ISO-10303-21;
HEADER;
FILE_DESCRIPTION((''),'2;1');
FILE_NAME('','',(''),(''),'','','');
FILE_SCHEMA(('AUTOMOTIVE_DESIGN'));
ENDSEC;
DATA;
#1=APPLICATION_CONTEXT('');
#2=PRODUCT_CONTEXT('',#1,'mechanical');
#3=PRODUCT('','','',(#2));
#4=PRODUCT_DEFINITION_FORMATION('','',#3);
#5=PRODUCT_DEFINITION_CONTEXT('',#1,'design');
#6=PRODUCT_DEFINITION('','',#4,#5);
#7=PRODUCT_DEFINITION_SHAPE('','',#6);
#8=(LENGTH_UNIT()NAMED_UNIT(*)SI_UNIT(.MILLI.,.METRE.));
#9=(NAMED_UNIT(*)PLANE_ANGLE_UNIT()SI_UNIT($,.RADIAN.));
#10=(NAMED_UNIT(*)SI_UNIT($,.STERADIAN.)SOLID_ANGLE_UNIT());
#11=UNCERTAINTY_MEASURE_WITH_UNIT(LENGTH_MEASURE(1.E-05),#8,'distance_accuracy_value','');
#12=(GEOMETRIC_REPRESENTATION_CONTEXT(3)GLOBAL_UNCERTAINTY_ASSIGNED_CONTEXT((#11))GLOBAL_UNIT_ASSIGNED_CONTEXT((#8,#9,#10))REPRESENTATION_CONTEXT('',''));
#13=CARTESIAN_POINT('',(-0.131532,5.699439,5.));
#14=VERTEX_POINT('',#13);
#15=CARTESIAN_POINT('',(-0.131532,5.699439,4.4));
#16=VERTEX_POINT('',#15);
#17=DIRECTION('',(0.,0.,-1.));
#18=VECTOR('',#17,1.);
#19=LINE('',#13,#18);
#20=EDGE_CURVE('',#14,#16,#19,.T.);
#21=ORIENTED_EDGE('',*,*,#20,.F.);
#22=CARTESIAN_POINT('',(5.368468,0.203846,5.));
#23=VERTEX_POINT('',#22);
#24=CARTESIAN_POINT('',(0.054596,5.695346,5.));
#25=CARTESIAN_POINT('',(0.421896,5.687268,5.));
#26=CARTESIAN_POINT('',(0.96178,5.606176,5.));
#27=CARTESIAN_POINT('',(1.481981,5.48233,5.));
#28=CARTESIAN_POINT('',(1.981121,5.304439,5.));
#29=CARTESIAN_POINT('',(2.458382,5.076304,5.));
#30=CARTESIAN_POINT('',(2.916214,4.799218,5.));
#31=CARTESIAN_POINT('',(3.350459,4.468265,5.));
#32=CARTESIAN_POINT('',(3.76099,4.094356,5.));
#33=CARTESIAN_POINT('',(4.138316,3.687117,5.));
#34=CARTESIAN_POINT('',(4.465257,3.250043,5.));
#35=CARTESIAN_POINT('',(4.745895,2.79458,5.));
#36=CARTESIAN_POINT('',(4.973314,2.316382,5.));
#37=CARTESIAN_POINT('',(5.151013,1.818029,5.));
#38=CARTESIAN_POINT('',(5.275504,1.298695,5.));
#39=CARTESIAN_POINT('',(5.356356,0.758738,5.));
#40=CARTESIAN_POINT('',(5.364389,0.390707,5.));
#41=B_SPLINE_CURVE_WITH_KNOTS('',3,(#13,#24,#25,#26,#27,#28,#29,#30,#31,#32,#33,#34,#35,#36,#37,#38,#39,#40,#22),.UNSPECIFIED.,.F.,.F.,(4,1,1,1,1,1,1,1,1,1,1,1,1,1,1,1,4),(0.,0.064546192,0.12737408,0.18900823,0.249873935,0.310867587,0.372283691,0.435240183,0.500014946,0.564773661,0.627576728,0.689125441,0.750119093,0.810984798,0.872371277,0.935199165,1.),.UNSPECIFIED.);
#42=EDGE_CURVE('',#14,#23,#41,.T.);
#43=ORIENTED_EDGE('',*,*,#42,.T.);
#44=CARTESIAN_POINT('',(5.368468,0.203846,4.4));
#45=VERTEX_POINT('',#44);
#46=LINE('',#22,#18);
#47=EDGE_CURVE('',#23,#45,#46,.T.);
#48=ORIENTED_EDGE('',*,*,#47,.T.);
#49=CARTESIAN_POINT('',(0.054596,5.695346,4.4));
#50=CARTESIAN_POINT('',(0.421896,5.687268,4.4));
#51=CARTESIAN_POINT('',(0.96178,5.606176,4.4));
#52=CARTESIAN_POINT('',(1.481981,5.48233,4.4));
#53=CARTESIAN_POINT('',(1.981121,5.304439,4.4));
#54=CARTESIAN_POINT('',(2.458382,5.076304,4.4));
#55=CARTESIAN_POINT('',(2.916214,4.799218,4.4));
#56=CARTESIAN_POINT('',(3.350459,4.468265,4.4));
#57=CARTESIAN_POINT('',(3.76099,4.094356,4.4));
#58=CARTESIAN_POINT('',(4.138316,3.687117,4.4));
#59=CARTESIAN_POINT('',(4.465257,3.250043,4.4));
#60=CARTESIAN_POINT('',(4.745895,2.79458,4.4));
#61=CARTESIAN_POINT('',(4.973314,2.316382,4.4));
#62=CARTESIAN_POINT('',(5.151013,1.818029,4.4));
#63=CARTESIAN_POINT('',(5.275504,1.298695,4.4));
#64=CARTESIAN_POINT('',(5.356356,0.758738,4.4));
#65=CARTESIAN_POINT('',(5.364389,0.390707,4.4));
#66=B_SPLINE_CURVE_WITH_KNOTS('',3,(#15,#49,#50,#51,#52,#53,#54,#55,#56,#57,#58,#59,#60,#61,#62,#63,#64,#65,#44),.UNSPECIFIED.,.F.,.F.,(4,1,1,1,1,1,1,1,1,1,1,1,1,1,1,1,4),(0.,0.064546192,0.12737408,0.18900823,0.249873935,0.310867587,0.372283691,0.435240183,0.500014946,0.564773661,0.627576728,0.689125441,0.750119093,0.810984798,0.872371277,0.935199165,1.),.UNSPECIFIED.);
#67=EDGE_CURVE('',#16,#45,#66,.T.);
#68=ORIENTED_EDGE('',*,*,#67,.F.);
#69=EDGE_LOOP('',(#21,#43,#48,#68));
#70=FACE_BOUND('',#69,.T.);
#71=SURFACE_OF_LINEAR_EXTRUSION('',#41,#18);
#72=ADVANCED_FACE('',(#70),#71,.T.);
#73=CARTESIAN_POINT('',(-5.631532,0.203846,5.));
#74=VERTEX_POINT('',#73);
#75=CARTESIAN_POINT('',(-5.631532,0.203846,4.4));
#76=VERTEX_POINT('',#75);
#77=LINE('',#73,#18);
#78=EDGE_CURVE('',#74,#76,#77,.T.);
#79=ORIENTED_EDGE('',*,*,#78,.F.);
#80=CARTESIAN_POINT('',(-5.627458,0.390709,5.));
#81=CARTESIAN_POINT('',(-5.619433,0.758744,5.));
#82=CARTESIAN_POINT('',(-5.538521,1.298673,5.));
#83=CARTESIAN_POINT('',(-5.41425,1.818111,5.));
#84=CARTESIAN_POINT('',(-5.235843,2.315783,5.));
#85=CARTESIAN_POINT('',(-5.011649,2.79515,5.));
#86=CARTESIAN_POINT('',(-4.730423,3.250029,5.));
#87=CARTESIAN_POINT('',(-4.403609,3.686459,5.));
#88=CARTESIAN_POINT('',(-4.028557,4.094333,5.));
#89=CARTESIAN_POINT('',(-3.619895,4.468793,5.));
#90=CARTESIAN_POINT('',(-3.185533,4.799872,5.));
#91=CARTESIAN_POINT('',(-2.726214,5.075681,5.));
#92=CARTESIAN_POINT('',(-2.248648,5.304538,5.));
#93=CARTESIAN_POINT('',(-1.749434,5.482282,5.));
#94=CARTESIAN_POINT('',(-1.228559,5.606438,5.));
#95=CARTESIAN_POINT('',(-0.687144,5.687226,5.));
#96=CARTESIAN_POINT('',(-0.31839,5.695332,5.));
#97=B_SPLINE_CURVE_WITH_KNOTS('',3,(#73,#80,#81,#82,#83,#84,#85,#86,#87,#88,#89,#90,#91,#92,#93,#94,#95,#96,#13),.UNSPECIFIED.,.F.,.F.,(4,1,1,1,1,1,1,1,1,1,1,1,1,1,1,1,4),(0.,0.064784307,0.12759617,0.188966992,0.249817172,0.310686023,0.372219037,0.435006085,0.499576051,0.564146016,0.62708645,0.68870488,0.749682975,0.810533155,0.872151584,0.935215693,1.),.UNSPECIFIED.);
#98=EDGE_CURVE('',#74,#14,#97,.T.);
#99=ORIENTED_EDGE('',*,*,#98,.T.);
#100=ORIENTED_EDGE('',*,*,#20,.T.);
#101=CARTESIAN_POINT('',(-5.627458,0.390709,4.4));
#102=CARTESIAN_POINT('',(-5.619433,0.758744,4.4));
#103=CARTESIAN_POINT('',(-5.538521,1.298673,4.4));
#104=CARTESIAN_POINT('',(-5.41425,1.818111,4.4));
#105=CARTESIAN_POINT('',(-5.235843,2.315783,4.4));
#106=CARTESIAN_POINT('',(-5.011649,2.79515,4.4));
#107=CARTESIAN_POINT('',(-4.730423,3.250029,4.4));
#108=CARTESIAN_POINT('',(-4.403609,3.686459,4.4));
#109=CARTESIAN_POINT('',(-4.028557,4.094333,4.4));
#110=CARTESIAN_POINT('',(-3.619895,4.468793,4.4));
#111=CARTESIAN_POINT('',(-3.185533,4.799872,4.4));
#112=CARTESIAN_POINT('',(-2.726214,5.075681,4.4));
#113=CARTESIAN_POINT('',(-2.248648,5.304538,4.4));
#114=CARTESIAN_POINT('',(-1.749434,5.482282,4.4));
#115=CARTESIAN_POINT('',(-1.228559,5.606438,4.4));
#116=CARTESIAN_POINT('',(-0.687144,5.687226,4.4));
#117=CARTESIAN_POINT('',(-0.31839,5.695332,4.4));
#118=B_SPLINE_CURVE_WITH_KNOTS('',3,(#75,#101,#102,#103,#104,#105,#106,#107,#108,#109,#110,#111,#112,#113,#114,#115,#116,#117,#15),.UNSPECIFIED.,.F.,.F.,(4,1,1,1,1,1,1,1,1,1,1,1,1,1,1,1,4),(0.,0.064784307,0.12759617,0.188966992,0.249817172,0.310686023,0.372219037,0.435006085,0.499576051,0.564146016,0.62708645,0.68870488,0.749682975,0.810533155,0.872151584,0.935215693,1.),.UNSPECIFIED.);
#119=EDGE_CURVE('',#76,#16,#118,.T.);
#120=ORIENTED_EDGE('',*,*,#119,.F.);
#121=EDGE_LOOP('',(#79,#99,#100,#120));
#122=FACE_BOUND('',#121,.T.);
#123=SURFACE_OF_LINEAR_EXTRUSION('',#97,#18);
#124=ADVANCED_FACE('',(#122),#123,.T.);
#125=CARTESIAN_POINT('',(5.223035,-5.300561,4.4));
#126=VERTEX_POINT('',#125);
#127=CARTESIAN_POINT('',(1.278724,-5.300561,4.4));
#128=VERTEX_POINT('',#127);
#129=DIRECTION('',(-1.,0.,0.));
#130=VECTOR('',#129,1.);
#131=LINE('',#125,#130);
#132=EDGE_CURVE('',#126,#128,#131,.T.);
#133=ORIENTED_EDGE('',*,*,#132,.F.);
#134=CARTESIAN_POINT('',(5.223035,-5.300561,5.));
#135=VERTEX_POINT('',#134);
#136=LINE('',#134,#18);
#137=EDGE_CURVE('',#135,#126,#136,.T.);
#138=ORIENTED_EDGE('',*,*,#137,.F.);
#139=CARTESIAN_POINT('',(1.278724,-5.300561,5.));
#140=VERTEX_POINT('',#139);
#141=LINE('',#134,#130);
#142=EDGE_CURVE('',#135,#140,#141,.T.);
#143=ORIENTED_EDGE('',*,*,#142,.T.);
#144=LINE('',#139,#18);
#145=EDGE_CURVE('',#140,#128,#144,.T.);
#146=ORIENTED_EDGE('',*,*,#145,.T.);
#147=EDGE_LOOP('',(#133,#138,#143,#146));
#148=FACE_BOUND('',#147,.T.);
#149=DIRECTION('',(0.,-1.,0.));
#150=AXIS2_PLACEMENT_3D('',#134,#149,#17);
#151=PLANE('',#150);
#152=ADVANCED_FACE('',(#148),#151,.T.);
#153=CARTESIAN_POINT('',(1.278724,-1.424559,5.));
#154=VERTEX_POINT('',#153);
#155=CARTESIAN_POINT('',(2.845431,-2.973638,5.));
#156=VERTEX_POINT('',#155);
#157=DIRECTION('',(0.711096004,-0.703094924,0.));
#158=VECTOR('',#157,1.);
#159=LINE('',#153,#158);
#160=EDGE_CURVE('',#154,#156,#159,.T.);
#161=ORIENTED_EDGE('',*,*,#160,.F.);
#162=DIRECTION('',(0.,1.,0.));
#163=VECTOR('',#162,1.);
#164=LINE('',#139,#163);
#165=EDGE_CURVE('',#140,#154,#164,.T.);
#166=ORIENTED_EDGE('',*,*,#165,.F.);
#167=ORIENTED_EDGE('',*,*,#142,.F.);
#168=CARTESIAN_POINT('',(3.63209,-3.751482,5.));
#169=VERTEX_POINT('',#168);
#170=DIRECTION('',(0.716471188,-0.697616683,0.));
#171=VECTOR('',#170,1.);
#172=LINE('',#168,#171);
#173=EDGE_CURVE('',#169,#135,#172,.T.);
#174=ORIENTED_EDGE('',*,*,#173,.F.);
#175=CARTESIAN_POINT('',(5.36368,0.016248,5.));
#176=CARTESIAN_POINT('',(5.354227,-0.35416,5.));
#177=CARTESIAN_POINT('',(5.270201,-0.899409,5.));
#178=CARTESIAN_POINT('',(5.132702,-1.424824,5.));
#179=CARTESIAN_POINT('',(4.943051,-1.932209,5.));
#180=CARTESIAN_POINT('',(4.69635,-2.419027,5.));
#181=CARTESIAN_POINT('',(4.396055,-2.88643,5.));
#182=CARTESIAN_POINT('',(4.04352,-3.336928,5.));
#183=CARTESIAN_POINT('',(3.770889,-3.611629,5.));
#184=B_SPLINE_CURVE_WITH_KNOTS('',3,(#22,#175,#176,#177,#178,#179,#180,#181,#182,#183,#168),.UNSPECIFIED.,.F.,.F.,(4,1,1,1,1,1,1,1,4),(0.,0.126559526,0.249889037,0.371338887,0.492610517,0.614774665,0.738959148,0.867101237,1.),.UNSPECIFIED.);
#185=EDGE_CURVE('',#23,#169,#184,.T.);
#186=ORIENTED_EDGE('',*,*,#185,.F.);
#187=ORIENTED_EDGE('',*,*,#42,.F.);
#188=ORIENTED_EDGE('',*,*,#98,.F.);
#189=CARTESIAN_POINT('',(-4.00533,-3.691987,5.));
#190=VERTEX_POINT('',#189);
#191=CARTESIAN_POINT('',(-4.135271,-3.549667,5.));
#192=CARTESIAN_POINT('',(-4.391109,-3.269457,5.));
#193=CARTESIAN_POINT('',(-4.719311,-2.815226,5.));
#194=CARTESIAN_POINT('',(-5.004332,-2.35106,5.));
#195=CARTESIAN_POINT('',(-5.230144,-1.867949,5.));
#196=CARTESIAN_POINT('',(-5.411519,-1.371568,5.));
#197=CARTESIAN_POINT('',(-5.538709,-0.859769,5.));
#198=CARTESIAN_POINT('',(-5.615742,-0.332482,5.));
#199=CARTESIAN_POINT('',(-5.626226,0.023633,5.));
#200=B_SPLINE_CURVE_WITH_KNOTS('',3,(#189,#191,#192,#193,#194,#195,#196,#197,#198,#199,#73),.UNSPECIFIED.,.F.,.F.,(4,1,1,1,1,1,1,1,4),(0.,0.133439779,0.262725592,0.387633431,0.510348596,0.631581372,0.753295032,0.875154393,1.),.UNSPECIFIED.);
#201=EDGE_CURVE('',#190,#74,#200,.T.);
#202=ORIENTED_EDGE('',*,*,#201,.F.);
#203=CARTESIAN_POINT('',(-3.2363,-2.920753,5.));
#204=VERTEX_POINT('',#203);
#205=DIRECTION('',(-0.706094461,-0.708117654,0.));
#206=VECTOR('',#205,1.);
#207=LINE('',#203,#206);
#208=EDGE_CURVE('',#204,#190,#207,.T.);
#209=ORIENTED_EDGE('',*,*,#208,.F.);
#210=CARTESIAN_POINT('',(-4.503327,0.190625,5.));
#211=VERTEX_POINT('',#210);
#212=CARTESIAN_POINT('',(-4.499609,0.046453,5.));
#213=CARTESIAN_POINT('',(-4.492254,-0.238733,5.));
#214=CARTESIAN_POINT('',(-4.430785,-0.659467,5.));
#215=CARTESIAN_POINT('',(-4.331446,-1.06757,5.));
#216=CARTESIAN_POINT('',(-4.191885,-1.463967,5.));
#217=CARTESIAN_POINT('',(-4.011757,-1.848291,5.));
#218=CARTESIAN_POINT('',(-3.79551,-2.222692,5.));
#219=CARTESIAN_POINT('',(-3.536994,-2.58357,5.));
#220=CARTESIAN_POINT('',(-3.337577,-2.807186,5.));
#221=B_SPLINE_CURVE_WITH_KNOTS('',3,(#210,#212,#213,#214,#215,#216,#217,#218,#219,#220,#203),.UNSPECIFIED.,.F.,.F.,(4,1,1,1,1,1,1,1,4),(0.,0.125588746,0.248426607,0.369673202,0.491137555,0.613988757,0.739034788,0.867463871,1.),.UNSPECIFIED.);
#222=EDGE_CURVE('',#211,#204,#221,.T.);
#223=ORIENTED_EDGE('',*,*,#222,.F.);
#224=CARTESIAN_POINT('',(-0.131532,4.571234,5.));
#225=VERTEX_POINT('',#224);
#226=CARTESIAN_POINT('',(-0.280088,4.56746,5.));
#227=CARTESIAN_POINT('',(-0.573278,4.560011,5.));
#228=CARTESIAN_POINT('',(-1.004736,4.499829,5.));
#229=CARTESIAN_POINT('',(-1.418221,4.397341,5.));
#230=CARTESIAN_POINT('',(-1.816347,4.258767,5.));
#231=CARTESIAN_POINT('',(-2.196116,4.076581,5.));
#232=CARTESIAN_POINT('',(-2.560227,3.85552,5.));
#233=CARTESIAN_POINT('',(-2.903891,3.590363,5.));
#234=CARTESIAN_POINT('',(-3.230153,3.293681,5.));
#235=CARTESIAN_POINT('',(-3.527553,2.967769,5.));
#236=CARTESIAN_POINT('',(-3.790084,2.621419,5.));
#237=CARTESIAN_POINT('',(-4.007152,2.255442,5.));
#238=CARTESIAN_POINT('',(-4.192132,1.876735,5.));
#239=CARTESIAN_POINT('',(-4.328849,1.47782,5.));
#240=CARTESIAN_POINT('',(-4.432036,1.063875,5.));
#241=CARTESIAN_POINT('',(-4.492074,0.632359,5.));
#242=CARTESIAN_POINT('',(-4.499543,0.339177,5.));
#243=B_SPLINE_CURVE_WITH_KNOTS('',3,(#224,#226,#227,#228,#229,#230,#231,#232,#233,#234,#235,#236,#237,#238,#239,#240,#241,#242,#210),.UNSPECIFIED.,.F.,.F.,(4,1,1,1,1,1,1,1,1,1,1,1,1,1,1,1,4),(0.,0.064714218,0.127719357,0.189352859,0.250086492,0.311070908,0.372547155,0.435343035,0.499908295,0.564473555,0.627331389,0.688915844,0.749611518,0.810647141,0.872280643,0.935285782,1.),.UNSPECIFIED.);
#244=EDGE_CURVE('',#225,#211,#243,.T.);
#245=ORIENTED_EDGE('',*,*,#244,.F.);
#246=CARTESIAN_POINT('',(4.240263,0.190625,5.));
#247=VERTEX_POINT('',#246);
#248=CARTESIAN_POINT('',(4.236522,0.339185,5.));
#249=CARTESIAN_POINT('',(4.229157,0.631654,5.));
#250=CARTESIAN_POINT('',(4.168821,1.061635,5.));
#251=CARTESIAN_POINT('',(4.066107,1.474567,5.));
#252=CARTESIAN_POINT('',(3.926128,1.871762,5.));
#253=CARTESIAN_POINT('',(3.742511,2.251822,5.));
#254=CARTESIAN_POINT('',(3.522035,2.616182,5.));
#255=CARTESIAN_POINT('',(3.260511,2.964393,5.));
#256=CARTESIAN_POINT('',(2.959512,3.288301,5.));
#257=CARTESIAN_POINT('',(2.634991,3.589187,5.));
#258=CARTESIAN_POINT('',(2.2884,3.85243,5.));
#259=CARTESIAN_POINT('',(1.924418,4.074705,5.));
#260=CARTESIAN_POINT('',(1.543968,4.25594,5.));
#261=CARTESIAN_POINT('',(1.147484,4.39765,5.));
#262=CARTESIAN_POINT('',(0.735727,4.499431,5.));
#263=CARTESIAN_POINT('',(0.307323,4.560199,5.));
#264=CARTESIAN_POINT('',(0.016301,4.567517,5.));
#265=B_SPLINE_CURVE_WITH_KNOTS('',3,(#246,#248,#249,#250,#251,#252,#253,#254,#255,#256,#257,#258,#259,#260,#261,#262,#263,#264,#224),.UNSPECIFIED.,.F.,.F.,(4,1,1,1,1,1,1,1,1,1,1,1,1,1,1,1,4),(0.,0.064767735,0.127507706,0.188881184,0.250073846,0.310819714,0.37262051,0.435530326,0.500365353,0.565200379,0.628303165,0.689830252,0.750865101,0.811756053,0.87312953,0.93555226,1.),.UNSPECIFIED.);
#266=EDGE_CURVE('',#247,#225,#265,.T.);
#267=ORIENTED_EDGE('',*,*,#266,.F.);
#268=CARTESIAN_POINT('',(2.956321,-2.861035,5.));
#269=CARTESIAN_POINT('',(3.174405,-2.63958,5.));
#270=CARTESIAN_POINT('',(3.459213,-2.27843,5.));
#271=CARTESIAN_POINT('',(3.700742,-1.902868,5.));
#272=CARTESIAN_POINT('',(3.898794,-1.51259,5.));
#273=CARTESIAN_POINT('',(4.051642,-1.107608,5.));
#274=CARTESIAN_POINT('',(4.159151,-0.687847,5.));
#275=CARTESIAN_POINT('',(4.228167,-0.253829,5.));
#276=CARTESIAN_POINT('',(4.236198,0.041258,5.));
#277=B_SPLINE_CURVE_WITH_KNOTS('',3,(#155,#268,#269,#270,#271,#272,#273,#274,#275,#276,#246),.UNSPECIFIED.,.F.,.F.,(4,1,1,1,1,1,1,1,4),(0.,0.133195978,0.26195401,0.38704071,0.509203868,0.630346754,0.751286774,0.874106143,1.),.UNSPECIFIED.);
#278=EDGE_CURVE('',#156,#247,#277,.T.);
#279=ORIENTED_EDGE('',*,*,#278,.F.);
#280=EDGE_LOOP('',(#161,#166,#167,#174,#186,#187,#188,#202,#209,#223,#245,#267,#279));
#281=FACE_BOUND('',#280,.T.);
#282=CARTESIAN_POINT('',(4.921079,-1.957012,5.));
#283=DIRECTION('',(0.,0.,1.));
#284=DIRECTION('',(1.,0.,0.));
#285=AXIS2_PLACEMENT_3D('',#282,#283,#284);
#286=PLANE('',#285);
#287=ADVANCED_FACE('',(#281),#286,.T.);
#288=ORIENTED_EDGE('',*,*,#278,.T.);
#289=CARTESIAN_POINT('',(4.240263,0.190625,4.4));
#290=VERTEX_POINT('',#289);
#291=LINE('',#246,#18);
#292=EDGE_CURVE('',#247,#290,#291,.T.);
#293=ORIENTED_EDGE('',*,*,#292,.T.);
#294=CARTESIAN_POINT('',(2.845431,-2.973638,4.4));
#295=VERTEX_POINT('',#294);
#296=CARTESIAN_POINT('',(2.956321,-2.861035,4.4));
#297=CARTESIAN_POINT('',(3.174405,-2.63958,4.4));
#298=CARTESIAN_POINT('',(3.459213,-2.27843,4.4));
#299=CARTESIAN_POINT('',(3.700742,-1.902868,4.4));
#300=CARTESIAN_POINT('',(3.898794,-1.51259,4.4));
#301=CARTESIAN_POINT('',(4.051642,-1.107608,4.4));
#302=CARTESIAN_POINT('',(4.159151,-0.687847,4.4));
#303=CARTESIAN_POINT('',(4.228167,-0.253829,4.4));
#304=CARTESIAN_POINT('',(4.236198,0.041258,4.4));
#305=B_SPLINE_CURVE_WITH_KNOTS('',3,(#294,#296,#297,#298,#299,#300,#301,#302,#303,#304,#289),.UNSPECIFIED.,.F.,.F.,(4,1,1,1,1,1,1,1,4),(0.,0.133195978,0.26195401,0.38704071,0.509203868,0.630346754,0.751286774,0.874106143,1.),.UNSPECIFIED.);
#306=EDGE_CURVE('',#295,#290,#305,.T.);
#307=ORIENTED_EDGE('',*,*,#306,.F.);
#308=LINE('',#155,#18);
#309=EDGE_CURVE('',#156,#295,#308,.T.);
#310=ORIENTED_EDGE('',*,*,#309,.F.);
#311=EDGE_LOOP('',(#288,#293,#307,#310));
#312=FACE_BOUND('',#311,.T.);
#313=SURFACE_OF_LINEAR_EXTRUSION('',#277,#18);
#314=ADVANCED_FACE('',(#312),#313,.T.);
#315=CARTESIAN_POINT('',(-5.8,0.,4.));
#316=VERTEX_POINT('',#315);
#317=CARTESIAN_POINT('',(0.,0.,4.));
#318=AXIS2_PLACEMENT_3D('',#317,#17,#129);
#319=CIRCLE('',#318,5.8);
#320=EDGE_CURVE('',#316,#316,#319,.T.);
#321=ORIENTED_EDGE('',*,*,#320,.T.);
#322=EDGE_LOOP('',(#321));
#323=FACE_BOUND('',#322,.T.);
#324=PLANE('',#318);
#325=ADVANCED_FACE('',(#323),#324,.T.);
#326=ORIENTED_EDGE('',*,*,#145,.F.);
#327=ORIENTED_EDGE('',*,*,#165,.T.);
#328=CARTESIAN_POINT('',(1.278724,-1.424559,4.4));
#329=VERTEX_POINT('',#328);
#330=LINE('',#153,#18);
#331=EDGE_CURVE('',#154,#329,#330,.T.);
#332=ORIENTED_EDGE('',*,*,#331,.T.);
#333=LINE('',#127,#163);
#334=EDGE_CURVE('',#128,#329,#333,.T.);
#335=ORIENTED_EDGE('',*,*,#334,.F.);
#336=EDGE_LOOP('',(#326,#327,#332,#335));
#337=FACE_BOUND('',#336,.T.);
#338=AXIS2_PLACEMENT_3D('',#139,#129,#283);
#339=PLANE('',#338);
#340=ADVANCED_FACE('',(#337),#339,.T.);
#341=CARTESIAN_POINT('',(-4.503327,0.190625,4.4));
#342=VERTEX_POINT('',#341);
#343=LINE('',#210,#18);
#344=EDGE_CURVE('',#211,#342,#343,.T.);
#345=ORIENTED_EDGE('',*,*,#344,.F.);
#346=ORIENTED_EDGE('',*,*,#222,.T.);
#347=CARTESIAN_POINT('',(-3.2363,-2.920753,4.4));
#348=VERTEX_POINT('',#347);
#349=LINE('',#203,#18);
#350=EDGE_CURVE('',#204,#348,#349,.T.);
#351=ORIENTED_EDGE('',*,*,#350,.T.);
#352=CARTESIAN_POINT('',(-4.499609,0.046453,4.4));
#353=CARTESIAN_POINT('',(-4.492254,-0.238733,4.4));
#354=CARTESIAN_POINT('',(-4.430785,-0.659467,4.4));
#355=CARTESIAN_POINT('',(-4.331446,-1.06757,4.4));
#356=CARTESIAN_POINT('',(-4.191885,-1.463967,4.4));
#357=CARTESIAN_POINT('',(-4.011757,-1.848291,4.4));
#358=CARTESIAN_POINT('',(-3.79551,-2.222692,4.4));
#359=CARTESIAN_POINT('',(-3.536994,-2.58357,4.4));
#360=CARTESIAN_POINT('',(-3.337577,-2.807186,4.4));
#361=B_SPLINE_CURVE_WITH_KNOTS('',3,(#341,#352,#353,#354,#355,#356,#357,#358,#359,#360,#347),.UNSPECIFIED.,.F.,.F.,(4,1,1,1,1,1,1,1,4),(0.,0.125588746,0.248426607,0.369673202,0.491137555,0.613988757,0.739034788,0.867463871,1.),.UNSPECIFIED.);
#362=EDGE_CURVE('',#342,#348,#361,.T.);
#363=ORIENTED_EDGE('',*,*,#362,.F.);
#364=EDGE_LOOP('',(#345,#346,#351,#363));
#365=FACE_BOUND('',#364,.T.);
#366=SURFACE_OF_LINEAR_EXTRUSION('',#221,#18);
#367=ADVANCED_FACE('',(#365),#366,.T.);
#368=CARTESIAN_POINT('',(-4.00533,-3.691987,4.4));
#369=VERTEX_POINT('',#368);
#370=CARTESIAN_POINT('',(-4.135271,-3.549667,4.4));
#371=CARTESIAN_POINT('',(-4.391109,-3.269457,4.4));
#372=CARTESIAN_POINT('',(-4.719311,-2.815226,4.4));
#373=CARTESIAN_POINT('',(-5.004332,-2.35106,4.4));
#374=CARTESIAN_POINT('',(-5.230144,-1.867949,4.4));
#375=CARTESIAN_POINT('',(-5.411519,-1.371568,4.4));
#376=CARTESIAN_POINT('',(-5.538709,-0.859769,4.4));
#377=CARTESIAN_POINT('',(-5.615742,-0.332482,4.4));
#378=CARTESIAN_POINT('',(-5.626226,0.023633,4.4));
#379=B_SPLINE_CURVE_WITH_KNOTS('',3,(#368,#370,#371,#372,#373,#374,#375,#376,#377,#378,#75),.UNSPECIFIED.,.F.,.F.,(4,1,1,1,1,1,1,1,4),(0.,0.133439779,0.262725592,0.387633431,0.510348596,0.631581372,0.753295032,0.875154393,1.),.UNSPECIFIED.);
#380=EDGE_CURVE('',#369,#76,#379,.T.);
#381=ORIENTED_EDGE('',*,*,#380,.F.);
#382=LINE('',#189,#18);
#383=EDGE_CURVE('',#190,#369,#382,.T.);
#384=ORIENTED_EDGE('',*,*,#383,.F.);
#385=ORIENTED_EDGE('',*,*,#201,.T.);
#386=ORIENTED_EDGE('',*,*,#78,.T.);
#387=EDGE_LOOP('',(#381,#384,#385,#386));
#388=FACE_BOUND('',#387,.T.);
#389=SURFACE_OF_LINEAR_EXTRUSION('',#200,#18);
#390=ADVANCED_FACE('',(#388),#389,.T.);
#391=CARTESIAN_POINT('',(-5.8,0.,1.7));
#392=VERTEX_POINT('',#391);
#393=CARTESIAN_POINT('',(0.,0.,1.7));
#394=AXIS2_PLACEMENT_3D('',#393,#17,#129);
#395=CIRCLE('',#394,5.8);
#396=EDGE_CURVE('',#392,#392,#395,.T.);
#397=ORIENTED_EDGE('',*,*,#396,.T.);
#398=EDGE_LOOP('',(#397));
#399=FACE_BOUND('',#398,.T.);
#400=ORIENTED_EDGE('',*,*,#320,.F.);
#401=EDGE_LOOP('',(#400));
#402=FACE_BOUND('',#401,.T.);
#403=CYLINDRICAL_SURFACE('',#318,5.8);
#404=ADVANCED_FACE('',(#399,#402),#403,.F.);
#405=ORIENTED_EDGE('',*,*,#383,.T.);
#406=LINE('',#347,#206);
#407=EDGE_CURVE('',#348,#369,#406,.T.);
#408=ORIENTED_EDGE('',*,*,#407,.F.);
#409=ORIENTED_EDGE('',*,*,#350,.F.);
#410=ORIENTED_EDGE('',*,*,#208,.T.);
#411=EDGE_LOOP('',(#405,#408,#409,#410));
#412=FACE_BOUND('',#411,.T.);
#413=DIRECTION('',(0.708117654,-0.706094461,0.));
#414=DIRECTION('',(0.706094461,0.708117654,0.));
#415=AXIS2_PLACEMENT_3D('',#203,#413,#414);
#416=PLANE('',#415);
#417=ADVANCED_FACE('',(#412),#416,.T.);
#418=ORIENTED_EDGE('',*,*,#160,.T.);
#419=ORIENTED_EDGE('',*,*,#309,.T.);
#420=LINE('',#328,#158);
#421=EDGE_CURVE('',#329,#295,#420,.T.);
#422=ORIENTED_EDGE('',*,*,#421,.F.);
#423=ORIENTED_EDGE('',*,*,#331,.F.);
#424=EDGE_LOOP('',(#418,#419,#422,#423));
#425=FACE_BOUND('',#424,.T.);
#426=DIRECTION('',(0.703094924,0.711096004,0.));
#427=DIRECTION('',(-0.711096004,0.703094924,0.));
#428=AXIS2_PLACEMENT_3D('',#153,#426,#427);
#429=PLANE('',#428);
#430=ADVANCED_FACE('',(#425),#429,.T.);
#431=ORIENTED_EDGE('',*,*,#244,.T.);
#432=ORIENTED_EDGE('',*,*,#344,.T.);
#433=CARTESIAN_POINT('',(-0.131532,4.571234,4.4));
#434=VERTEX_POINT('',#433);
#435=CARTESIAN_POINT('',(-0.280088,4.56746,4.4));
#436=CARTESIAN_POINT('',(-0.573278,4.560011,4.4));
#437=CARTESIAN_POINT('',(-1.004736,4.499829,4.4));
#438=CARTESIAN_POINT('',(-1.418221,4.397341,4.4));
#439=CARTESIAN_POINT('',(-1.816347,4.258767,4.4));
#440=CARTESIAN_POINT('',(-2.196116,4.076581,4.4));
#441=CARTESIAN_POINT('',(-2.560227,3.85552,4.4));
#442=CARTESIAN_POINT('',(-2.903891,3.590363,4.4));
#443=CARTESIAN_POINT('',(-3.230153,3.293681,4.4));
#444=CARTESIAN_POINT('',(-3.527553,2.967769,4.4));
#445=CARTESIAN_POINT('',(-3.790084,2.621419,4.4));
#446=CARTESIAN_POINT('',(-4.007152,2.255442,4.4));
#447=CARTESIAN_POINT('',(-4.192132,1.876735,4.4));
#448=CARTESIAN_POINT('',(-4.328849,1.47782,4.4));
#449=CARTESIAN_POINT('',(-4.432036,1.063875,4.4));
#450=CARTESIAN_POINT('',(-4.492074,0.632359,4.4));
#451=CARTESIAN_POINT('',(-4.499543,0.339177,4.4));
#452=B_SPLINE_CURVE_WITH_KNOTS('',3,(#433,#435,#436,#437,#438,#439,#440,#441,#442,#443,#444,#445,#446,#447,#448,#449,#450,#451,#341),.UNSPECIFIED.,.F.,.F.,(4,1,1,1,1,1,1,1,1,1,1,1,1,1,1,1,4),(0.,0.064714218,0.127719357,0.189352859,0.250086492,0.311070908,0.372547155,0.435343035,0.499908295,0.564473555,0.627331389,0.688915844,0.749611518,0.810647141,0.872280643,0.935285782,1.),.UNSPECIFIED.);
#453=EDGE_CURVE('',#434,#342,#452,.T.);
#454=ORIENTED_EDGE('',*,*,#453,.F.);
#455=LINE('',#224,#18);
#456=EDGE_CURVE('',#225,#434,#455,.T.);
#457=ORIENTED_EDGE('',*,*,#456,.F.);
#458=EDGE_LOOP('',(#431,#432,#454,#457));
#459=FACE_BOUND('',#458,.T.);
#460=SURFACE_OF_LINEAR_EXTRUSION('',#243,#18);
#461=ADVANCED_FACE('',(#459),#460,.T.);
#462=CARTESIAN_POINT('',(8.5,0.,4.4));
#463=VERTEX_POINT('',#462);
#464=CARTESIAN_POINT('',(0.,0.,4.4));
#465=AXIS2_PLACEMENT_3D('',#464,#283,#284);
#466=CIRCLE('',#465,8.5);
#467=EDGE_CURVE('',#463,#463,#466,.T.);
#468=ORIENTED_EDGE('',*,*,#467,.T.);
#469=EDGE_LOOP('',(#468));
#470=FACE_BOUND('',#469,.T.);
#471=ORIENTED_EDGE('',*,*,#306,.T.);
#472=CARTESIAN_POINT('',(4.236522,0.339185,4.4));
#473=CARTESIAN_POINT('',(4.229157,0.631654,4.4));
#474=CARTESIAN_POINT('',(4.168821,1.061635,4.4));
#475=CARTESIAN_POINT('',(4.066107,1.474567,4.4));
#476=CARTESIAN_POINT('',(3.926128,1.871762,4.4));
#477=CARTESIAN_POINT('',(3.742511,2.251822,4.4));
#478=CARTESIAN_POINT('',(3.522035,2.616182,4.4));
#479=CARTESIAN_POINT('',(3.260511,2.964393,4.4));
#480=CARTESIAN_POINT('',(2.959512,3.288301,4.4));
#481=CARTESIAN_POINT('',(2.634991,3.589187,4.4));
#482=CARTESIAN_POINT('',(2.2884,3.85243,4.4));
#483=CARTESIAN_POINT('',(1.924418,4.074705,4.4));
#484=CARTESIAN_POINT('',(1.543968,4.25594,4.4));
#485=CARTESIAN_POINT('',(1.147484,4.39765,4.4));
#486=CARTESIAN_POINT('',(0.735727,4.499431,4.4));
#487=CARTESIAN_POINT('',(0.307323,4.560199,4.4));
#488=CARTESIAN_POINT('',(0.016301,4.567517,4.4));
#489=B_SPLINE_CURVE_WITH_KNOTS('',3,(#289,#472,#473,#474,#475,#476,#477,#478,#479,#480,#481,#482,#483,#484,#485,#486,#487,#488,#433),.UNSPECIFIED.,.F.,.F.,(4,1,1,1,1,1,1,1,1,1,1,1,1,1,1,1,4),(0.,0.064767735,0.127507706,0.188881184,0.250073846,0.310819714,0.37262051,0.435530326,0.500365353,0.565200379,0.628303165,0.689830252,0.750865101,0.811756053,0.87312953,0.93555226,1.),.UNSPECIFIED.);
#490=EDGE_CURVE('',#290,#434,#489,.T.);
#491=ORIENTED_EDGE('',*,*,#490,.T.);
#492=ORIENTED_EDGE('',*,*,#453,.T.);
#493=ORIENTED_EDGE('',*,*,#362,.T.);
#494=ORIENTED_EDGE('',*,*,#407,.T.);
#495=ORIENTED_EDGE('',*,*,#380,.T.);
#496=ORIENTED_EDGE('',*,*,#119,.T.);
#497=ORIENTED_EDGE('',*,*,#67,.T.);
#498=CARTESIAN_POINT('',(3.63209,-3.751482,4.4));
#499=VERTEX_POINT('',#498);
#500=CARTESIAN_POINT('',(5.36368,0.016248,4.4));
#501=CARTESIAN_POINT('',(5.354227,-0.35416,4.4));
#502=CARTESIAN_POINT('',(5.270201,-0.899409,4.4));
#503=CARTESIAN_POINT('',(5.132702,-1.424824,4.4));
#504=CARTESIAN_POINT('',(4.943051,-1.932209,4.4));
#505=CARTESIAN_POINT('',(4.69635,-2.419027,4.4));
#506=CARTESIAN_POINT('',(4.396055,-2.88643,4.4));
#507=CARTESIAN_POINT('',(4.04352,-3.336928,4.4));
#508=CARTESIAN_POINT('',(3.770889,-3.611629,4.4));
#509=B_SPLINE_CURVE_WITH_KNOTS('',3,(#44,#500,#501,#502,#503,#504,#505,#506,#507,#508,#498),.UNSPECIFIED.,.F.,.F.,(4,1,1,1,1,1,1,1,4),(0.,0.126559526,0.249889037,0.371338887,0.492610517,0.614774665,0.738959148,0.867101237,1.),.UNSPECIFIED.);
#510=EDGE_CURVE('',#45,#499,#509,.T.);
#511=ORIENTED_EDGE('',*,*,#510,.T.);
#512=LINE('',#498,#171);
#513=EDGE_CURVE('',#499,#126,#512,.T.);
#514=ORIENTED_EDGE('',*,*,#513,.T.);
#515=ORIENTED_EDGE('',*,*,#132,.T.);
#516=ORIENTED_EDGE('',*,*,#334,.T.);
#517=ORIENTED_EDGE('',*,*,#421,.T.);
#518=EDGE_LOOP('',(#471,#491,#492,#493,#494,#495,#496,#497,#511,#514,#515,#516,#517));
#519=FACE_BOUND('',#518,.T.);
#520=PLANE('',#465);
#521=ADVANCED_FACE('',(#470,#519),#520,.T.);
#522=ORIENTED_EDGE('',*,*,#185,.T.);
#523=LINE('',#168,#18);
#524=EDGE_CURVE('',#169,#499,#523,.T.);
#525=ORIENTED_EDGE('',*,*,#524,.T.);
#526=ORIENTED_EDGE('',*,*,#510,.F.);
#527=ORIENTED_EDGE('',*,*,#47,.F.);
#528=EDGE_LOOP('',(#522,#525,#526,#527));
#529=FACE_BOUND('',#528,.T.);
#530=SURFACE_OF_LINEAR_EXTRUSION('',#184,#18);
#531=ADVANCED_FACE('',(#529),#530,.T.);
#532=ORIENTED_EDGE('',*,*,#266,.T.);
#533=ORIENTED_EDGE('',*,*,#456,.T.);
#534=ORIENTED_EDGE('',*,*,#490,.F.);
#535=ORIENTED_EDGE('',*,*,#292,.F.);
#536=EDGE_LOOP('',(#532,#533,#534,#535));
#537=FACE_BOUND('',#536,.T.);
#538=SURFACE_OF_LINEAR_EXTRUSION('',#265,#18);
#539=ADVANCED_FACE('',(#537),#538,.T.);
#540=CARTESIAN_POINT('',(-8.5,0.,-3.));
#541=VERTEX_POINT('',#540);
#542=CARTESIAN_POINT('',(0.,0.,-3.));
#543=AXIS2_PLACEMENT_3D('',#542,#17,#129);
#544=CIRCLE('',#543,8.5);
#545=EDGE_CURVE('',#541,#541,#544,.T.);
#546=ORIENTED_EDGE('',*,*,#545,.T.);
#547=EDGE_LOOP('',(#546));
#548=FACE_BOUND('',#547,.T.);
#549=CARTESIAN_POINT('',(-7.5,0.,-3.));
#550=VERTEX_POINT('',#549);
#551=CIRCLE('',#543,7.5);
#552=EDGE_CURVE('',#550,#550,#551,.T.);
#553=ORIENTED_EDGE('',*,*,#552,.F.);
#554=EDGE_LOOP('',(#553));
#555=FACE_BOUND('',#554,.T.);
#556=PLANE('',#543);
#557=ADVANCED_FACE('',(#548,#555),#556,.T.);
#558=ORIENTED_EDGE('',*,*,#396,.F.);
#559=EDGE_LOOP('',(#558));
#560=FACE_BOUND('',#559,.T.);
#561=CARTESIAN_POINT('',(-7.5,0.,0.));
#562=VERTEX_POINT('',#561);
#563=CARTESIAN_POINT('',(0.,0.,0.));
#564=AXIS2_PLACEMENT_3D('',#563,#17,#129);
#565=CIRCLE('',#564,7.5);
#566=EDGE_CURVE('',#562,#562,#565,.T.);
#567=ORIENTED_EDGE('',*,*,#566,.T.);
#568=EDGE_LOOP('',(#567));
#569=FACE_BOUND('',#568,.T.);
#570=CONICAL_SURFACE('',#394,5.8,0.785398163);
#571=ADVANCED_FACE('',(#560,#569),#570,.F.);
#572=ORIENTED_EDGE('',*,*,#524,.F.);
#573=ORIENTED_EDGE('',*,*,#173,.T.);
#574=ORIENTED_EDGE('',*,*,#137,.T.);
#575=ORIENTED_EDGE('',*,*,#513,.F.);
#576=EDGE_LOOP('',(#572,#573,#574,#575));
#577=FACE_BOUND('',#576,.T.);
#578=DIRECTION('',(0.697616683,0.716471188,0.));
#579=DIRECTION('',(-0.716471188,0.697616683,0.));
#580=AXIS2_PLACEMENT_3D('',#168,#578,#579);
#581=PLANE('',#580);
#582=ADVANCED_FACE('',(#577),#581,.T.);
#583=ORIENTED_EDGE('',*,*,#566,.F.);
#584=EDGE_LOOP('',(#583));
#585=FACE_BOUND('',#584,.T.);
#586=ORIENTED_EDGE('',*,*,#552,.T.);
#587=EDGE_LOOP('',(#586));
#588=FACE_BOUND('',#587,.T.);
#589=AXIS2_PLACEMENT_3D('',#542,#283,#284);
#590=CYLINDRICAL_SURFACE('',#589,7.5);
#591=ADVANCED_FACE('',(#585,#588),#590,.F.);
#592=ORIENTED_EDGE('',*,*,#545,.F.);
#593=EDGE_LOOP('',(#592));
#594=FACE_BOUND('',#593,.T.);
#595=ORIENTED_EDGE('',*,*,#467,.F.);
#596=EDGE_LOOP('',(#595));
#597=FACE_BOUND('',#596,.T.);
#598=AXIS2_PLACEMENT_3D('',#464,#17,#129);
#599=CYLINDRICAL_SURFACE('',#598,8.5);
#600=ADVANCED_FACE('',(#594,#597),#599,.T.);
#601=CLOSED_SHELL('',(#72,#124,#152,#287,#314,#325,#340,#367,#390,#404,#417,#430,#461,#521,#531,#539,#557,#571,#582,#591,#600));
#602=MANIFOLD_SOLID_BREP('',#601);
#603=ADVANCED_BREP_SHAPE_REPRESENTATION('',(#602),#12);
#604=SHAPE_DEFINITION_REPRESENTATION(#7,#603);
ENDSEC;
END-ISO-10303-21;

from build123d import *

# Parameters (mm, degrees)
SKETCH1_R           = 8.5
BOSS_EXTRUDE1_DEPTH = 4.4
SKETCH3_R           = 5.8
CUT_EXTRUDE1_DEPTH  = 4
BOSS_EXTRUDE3_START = 3
SKETCH4_R           = 8.5
SKETCH4_R_2         = 7.5
BOSS_EXTRUDE3_DEPTH = 3
BOSS_EXTRUDE4_DEPTH = 0.6


with BuildPart() as part:
    # Sketch1 → Boss-Extrude1 (new body)
    with BuildSketch(Plane.XY):
        Circle(SKETCH1_R)
    extrude(amount=BOSS_EXTRUDE1_DEPTH)

    # Sketch3 → Cut-Extrude1 (cut)
    with BuildSketch(Plane(origin=(0, 0, 0), x_dir=(-1, 0, 0), z_dir=(0, 0, -1))):
        Circle(SKETCH3_R)
    extrude(amount=-CUT_EXTRUDE1_DEPTH, mode=Mode.SUBTRACT)

    # Sketch4 → Boss-Extrude3 (add)
    with BuildSketch(Plane(origin=(0, 0, 0), x_dir=(-1, 0, 0), z_dir=(0, 0, -1)).offset(BOSS_EXTRUDE3_START)):
        Circle(SKETCH4_R)
        Circle(SKETCH4_R_2, mode=Mode.SUBTRACT)
    extrude(amount=-BOSS_EXTRUDE3_DEPTH)

    # Sketch6 → Cut-Revolve1 (revolve, cut)
    with BuildSketch(Plane(origin=(0, 0, 0), x_dir=(1, 0, 0), z_dir=(0, 1, 0)), mode=Mode.PRIVATE) as cut_revolve1_sk:
        Polygon((7.5, 0), (5.8, -1.7), (5.8, 0), align=None)
    revolve(cut_revolve1_sk.sketch.rotate(Axis((0, 0, -5.5), (0, 0, 1)), 180), axis=Axis((0, 0, -5.5), (0, 0, 1)), mode=Mode.SUBTRACT)

    # Sketch2 → Boss-Extrude4 (add)
    with BuildSketch(Plane.XY.offset(4.4)):
        with BuildLine():
            Line((3.632089791, -3.751482391), (5.223035304, -5.300560917))
            Line((5.223035304, -5.300560917), (1.278724407, -5.300560917))
            Line((1.278724407, -5.300560917), (1.278724407, -1.424559314))
            Line((1.278724407, -1.424559314), (2.845431137, -2.97363784))
            add(Edge.make_bspline(
                [(2.845431137, -2.97363784), (2.95632075, -2.861034584), (3.174405253, -2.639579891), (3.459213248, -2.278430368), (3.70074243, -1.902868481), (3.898794049, -1.512590066), (4.05164193, -1.107607515), (4.159151203, -0.687847174), (4.228166952, -0.253828699), (4.236197805, 0.041257842), (4.240262868, 0.190624981)],
                knots=[0, 0, 0, 0, 1.065567823, 2.095632081, 3.096325677, 4.073630942, 5.042774034, 6.010294195, 6.992849145, 8, 8, 8, 8], degree=3))
            add(Edge.make_bspline(
                [(4.240262868, 0.190624981), (4.236521971, 0.339185131), (4.229157297, 0.631654273), (4.16882099, 1.061635432), (4.066106532, 1.474567413), (3.926128217, 1.87176171), (3.742510622, 2.251822429), (3.522034828, 2.616182439), (3.260511136, 2.964392602), (2.959512286, 3.288301222), (2.634991287, 3.589186758), (2.288400016, 3.852429668), (1.924418043, 4.074704619), (1.543968163, 4.255940011), (1.147484032, 4.397650491), (0.735726783, 4.499431142), (0.30732266, 4.560199144), (0.016301238, 4.567516752), (-0.131532004, 4.571233955)],
                knots=[0, 0, 0, 0, 1.036283767, 2.0401233, 3.022098945, 4.001181535, 4.973115426, 5.961928152, 6.96848522, 8.005845645, 9.043206071, 10.052850644, 11.037284036, 12.013841621, 12.988096842, 13.970072486, 14.968836162, 16, 16, 16, 16], degree=3))
            add(Edge.make_bspline(
                [(-0.131532004, 4.571233955), (-0.280088337, 4.567459865), (-0.573277686, 4.560011356), (-1.00473588, 4.499828874), (-1.418221214, 4.397341401), (-1.816346635, 4.258767128), (-2.196115848, 4.076581392), (-2.560226583, 3.855519569), (-2.903891125, 3.590363046), (-3.230152733, 3.293680989), (-3.527552899, 2.967768525), (-3.790083641, 2.621418652), (-4.007152184, 2.255441675), (-4.192132355, 1.876734755), (-4.328849407, 1.477819774), (-4.432036389, 1.063874926), (-4.49207445, 0.632358672), (-4.499542755, 0.339177282), (-4.503326876, 0.190624981)],
                knots=[0, 0, 0, 0, 1.035427484, 2.043509704, 3.02964574, 4.001383878, 4.977134532, 5.960754486, 6.96548856, 7.998532717, 9.031576874, 10.037302222, 11.022653504, 11.993784286, 12.97035426, 13.956490296, 14.964572516, 16, 16, 16, 16], degree=3))
            add(Edge.make_bspline(
                [(-4.503326876, 0.190624981), (-4.499608767, 0.046452954), (-4.492253992, -0.238733168), (-4.430784866, -0.659467236), (-4.331445734, -1.067569513), (-4.19188491, -1.463967176), (-4.01175723, -1.848290505), (-3.795509518, -2.222691708), (-3.53699416, -2.583569925), (-3.337577276, -2.80718571), (-3.236299632, -2.920753225)],
                knots=[0, 0, 0, 0, 1.00470997, 1.987412856, 2.957385615, 3.929100441, 4.911910053, 5.912278307, 6.939710965, 8, 8, 8, 8], degree=3))
            Line((-3.236299632, -2.920753225), (-4.005330081, -3.691987199))
            add(Edge.make_bspline(
                [(-4.005330081, -3.691987199), (-4.135271474, -3.549666878), (-4.391109201, -3.269456652), (-4.719311464, -2.815225768), (-5.004332233, -2.351060045), (-5.230143754, -1.867949003), (-5.411519251, -1.371567784), (-5.538708635, -0.859768832), (-5.615741653, -0.332482335), (-5.62622625, 0.023633109), (-5.631532004, 0.203846134)],
                knots=[0, 0, 0, 0, 1.067518229, 2.101804739, 3.101067448, 4.082788766, 5.052650977, 6.026360255, 7.001235147, 8, 8, 8, 8], degree=3))
            add(Edge.make_bspline(
                [(-5.631532004, 0.203846134), (-5.627457502, 0.390708619), (-5.619432553, 0.758744313), (-5.538520982, 1.298672582), (-5.414249777, 1.818110739), (-5.235843212, 2.315782791), (-5.011649393, 2.795149888), (-4.73042278, 3.250028561), (-4.403608666, 3.686459458), (-4.028557339, 4.094332656), (-3.619894559, 4.468793147), (-3.185532677, 4.799872374), (-2.726214157, 5.075680655), (-2.248647615, 5.304538365), (-1.749434149, 5.482282496), (-1.22855864, 5.606437585), (-0.687143546, 5.687225777), (-0.318389709, 5.695331626), (-0.131532004, 5.699439083)],
                knots=[0, 0, 0, 0, 1.036548909, 2.041538722, 3.023471865, 3.997074745, 4.970976362, 5.955504589, 6.960097362, 7.993216813, 9.026336264, 10.033383207, 11.019278073, 11.994927594, 12.968530475, 13.95442534, 14.963451091, 16, 16, 16, 16], degree=3))
            add(Edge.make_bspline(
                [(-0.131532004, 5.699439083), (0.054595523, 5.695345882), (0.421895617, 5.687268445), (0.961779629, 5.606175508), (1.481981128, 5.482330381), (1.981120847, 5.30443921), (2.458381777, 5.076303735), (2.916213765, 4.799218389), (3.350458552, 4.468265022), (3.760990035, 4.094356336), (4.138315988, 3.687117495), (4.465256719, 3.250043032), (4.745894958, 2.794580246), (4.973314126, 2.316382013), (5.151012636, 1.818029141), (5.275504478, 1.29869497), (5.356356116, 0.758738455), (5.364389309, 0.390706646), (5.368467996, 0.203846134)],
                knots=[0, 0, 0, 0, 1.032739074, 2.037985287, 3.024131681, 3.997982954, 4.97388139, 5.956539052, 6.96384292, 8.000239142, 9.03637858, 10.041227652, 11.026007058, 12.001905494, 12.975756767, 13.957940427, 14.96318664, 16, 16, 16, 16], degree=3))
            add(Edge.make_bspline(
                [(5.368467996, 0.203846134), (5.363680287, 0.016248292), (5.354227058, -0.354159577), (5.270200799, -0.899409197), (5.132702079, -1.4248242), (4.943051484, -1.932209131), (4.696350305, -2.419026583), (4.396055183, -2.886430144), (4.043519788, -3.336927549), (3.770889078, -3.611628912), (3.632089791, -3.751482391)],
                knots=[0, 0, 0, 0, 1.01247621, 1.999112297, 2.970711092, 3.940884138, 4.91819732, 5.911673186, 6.936809893, 8, 8, 8, 8], degree=3))
        make_face()
    extrude(amount=BOSS_EXTRUDE4_DEPTH)


solid = part.part
